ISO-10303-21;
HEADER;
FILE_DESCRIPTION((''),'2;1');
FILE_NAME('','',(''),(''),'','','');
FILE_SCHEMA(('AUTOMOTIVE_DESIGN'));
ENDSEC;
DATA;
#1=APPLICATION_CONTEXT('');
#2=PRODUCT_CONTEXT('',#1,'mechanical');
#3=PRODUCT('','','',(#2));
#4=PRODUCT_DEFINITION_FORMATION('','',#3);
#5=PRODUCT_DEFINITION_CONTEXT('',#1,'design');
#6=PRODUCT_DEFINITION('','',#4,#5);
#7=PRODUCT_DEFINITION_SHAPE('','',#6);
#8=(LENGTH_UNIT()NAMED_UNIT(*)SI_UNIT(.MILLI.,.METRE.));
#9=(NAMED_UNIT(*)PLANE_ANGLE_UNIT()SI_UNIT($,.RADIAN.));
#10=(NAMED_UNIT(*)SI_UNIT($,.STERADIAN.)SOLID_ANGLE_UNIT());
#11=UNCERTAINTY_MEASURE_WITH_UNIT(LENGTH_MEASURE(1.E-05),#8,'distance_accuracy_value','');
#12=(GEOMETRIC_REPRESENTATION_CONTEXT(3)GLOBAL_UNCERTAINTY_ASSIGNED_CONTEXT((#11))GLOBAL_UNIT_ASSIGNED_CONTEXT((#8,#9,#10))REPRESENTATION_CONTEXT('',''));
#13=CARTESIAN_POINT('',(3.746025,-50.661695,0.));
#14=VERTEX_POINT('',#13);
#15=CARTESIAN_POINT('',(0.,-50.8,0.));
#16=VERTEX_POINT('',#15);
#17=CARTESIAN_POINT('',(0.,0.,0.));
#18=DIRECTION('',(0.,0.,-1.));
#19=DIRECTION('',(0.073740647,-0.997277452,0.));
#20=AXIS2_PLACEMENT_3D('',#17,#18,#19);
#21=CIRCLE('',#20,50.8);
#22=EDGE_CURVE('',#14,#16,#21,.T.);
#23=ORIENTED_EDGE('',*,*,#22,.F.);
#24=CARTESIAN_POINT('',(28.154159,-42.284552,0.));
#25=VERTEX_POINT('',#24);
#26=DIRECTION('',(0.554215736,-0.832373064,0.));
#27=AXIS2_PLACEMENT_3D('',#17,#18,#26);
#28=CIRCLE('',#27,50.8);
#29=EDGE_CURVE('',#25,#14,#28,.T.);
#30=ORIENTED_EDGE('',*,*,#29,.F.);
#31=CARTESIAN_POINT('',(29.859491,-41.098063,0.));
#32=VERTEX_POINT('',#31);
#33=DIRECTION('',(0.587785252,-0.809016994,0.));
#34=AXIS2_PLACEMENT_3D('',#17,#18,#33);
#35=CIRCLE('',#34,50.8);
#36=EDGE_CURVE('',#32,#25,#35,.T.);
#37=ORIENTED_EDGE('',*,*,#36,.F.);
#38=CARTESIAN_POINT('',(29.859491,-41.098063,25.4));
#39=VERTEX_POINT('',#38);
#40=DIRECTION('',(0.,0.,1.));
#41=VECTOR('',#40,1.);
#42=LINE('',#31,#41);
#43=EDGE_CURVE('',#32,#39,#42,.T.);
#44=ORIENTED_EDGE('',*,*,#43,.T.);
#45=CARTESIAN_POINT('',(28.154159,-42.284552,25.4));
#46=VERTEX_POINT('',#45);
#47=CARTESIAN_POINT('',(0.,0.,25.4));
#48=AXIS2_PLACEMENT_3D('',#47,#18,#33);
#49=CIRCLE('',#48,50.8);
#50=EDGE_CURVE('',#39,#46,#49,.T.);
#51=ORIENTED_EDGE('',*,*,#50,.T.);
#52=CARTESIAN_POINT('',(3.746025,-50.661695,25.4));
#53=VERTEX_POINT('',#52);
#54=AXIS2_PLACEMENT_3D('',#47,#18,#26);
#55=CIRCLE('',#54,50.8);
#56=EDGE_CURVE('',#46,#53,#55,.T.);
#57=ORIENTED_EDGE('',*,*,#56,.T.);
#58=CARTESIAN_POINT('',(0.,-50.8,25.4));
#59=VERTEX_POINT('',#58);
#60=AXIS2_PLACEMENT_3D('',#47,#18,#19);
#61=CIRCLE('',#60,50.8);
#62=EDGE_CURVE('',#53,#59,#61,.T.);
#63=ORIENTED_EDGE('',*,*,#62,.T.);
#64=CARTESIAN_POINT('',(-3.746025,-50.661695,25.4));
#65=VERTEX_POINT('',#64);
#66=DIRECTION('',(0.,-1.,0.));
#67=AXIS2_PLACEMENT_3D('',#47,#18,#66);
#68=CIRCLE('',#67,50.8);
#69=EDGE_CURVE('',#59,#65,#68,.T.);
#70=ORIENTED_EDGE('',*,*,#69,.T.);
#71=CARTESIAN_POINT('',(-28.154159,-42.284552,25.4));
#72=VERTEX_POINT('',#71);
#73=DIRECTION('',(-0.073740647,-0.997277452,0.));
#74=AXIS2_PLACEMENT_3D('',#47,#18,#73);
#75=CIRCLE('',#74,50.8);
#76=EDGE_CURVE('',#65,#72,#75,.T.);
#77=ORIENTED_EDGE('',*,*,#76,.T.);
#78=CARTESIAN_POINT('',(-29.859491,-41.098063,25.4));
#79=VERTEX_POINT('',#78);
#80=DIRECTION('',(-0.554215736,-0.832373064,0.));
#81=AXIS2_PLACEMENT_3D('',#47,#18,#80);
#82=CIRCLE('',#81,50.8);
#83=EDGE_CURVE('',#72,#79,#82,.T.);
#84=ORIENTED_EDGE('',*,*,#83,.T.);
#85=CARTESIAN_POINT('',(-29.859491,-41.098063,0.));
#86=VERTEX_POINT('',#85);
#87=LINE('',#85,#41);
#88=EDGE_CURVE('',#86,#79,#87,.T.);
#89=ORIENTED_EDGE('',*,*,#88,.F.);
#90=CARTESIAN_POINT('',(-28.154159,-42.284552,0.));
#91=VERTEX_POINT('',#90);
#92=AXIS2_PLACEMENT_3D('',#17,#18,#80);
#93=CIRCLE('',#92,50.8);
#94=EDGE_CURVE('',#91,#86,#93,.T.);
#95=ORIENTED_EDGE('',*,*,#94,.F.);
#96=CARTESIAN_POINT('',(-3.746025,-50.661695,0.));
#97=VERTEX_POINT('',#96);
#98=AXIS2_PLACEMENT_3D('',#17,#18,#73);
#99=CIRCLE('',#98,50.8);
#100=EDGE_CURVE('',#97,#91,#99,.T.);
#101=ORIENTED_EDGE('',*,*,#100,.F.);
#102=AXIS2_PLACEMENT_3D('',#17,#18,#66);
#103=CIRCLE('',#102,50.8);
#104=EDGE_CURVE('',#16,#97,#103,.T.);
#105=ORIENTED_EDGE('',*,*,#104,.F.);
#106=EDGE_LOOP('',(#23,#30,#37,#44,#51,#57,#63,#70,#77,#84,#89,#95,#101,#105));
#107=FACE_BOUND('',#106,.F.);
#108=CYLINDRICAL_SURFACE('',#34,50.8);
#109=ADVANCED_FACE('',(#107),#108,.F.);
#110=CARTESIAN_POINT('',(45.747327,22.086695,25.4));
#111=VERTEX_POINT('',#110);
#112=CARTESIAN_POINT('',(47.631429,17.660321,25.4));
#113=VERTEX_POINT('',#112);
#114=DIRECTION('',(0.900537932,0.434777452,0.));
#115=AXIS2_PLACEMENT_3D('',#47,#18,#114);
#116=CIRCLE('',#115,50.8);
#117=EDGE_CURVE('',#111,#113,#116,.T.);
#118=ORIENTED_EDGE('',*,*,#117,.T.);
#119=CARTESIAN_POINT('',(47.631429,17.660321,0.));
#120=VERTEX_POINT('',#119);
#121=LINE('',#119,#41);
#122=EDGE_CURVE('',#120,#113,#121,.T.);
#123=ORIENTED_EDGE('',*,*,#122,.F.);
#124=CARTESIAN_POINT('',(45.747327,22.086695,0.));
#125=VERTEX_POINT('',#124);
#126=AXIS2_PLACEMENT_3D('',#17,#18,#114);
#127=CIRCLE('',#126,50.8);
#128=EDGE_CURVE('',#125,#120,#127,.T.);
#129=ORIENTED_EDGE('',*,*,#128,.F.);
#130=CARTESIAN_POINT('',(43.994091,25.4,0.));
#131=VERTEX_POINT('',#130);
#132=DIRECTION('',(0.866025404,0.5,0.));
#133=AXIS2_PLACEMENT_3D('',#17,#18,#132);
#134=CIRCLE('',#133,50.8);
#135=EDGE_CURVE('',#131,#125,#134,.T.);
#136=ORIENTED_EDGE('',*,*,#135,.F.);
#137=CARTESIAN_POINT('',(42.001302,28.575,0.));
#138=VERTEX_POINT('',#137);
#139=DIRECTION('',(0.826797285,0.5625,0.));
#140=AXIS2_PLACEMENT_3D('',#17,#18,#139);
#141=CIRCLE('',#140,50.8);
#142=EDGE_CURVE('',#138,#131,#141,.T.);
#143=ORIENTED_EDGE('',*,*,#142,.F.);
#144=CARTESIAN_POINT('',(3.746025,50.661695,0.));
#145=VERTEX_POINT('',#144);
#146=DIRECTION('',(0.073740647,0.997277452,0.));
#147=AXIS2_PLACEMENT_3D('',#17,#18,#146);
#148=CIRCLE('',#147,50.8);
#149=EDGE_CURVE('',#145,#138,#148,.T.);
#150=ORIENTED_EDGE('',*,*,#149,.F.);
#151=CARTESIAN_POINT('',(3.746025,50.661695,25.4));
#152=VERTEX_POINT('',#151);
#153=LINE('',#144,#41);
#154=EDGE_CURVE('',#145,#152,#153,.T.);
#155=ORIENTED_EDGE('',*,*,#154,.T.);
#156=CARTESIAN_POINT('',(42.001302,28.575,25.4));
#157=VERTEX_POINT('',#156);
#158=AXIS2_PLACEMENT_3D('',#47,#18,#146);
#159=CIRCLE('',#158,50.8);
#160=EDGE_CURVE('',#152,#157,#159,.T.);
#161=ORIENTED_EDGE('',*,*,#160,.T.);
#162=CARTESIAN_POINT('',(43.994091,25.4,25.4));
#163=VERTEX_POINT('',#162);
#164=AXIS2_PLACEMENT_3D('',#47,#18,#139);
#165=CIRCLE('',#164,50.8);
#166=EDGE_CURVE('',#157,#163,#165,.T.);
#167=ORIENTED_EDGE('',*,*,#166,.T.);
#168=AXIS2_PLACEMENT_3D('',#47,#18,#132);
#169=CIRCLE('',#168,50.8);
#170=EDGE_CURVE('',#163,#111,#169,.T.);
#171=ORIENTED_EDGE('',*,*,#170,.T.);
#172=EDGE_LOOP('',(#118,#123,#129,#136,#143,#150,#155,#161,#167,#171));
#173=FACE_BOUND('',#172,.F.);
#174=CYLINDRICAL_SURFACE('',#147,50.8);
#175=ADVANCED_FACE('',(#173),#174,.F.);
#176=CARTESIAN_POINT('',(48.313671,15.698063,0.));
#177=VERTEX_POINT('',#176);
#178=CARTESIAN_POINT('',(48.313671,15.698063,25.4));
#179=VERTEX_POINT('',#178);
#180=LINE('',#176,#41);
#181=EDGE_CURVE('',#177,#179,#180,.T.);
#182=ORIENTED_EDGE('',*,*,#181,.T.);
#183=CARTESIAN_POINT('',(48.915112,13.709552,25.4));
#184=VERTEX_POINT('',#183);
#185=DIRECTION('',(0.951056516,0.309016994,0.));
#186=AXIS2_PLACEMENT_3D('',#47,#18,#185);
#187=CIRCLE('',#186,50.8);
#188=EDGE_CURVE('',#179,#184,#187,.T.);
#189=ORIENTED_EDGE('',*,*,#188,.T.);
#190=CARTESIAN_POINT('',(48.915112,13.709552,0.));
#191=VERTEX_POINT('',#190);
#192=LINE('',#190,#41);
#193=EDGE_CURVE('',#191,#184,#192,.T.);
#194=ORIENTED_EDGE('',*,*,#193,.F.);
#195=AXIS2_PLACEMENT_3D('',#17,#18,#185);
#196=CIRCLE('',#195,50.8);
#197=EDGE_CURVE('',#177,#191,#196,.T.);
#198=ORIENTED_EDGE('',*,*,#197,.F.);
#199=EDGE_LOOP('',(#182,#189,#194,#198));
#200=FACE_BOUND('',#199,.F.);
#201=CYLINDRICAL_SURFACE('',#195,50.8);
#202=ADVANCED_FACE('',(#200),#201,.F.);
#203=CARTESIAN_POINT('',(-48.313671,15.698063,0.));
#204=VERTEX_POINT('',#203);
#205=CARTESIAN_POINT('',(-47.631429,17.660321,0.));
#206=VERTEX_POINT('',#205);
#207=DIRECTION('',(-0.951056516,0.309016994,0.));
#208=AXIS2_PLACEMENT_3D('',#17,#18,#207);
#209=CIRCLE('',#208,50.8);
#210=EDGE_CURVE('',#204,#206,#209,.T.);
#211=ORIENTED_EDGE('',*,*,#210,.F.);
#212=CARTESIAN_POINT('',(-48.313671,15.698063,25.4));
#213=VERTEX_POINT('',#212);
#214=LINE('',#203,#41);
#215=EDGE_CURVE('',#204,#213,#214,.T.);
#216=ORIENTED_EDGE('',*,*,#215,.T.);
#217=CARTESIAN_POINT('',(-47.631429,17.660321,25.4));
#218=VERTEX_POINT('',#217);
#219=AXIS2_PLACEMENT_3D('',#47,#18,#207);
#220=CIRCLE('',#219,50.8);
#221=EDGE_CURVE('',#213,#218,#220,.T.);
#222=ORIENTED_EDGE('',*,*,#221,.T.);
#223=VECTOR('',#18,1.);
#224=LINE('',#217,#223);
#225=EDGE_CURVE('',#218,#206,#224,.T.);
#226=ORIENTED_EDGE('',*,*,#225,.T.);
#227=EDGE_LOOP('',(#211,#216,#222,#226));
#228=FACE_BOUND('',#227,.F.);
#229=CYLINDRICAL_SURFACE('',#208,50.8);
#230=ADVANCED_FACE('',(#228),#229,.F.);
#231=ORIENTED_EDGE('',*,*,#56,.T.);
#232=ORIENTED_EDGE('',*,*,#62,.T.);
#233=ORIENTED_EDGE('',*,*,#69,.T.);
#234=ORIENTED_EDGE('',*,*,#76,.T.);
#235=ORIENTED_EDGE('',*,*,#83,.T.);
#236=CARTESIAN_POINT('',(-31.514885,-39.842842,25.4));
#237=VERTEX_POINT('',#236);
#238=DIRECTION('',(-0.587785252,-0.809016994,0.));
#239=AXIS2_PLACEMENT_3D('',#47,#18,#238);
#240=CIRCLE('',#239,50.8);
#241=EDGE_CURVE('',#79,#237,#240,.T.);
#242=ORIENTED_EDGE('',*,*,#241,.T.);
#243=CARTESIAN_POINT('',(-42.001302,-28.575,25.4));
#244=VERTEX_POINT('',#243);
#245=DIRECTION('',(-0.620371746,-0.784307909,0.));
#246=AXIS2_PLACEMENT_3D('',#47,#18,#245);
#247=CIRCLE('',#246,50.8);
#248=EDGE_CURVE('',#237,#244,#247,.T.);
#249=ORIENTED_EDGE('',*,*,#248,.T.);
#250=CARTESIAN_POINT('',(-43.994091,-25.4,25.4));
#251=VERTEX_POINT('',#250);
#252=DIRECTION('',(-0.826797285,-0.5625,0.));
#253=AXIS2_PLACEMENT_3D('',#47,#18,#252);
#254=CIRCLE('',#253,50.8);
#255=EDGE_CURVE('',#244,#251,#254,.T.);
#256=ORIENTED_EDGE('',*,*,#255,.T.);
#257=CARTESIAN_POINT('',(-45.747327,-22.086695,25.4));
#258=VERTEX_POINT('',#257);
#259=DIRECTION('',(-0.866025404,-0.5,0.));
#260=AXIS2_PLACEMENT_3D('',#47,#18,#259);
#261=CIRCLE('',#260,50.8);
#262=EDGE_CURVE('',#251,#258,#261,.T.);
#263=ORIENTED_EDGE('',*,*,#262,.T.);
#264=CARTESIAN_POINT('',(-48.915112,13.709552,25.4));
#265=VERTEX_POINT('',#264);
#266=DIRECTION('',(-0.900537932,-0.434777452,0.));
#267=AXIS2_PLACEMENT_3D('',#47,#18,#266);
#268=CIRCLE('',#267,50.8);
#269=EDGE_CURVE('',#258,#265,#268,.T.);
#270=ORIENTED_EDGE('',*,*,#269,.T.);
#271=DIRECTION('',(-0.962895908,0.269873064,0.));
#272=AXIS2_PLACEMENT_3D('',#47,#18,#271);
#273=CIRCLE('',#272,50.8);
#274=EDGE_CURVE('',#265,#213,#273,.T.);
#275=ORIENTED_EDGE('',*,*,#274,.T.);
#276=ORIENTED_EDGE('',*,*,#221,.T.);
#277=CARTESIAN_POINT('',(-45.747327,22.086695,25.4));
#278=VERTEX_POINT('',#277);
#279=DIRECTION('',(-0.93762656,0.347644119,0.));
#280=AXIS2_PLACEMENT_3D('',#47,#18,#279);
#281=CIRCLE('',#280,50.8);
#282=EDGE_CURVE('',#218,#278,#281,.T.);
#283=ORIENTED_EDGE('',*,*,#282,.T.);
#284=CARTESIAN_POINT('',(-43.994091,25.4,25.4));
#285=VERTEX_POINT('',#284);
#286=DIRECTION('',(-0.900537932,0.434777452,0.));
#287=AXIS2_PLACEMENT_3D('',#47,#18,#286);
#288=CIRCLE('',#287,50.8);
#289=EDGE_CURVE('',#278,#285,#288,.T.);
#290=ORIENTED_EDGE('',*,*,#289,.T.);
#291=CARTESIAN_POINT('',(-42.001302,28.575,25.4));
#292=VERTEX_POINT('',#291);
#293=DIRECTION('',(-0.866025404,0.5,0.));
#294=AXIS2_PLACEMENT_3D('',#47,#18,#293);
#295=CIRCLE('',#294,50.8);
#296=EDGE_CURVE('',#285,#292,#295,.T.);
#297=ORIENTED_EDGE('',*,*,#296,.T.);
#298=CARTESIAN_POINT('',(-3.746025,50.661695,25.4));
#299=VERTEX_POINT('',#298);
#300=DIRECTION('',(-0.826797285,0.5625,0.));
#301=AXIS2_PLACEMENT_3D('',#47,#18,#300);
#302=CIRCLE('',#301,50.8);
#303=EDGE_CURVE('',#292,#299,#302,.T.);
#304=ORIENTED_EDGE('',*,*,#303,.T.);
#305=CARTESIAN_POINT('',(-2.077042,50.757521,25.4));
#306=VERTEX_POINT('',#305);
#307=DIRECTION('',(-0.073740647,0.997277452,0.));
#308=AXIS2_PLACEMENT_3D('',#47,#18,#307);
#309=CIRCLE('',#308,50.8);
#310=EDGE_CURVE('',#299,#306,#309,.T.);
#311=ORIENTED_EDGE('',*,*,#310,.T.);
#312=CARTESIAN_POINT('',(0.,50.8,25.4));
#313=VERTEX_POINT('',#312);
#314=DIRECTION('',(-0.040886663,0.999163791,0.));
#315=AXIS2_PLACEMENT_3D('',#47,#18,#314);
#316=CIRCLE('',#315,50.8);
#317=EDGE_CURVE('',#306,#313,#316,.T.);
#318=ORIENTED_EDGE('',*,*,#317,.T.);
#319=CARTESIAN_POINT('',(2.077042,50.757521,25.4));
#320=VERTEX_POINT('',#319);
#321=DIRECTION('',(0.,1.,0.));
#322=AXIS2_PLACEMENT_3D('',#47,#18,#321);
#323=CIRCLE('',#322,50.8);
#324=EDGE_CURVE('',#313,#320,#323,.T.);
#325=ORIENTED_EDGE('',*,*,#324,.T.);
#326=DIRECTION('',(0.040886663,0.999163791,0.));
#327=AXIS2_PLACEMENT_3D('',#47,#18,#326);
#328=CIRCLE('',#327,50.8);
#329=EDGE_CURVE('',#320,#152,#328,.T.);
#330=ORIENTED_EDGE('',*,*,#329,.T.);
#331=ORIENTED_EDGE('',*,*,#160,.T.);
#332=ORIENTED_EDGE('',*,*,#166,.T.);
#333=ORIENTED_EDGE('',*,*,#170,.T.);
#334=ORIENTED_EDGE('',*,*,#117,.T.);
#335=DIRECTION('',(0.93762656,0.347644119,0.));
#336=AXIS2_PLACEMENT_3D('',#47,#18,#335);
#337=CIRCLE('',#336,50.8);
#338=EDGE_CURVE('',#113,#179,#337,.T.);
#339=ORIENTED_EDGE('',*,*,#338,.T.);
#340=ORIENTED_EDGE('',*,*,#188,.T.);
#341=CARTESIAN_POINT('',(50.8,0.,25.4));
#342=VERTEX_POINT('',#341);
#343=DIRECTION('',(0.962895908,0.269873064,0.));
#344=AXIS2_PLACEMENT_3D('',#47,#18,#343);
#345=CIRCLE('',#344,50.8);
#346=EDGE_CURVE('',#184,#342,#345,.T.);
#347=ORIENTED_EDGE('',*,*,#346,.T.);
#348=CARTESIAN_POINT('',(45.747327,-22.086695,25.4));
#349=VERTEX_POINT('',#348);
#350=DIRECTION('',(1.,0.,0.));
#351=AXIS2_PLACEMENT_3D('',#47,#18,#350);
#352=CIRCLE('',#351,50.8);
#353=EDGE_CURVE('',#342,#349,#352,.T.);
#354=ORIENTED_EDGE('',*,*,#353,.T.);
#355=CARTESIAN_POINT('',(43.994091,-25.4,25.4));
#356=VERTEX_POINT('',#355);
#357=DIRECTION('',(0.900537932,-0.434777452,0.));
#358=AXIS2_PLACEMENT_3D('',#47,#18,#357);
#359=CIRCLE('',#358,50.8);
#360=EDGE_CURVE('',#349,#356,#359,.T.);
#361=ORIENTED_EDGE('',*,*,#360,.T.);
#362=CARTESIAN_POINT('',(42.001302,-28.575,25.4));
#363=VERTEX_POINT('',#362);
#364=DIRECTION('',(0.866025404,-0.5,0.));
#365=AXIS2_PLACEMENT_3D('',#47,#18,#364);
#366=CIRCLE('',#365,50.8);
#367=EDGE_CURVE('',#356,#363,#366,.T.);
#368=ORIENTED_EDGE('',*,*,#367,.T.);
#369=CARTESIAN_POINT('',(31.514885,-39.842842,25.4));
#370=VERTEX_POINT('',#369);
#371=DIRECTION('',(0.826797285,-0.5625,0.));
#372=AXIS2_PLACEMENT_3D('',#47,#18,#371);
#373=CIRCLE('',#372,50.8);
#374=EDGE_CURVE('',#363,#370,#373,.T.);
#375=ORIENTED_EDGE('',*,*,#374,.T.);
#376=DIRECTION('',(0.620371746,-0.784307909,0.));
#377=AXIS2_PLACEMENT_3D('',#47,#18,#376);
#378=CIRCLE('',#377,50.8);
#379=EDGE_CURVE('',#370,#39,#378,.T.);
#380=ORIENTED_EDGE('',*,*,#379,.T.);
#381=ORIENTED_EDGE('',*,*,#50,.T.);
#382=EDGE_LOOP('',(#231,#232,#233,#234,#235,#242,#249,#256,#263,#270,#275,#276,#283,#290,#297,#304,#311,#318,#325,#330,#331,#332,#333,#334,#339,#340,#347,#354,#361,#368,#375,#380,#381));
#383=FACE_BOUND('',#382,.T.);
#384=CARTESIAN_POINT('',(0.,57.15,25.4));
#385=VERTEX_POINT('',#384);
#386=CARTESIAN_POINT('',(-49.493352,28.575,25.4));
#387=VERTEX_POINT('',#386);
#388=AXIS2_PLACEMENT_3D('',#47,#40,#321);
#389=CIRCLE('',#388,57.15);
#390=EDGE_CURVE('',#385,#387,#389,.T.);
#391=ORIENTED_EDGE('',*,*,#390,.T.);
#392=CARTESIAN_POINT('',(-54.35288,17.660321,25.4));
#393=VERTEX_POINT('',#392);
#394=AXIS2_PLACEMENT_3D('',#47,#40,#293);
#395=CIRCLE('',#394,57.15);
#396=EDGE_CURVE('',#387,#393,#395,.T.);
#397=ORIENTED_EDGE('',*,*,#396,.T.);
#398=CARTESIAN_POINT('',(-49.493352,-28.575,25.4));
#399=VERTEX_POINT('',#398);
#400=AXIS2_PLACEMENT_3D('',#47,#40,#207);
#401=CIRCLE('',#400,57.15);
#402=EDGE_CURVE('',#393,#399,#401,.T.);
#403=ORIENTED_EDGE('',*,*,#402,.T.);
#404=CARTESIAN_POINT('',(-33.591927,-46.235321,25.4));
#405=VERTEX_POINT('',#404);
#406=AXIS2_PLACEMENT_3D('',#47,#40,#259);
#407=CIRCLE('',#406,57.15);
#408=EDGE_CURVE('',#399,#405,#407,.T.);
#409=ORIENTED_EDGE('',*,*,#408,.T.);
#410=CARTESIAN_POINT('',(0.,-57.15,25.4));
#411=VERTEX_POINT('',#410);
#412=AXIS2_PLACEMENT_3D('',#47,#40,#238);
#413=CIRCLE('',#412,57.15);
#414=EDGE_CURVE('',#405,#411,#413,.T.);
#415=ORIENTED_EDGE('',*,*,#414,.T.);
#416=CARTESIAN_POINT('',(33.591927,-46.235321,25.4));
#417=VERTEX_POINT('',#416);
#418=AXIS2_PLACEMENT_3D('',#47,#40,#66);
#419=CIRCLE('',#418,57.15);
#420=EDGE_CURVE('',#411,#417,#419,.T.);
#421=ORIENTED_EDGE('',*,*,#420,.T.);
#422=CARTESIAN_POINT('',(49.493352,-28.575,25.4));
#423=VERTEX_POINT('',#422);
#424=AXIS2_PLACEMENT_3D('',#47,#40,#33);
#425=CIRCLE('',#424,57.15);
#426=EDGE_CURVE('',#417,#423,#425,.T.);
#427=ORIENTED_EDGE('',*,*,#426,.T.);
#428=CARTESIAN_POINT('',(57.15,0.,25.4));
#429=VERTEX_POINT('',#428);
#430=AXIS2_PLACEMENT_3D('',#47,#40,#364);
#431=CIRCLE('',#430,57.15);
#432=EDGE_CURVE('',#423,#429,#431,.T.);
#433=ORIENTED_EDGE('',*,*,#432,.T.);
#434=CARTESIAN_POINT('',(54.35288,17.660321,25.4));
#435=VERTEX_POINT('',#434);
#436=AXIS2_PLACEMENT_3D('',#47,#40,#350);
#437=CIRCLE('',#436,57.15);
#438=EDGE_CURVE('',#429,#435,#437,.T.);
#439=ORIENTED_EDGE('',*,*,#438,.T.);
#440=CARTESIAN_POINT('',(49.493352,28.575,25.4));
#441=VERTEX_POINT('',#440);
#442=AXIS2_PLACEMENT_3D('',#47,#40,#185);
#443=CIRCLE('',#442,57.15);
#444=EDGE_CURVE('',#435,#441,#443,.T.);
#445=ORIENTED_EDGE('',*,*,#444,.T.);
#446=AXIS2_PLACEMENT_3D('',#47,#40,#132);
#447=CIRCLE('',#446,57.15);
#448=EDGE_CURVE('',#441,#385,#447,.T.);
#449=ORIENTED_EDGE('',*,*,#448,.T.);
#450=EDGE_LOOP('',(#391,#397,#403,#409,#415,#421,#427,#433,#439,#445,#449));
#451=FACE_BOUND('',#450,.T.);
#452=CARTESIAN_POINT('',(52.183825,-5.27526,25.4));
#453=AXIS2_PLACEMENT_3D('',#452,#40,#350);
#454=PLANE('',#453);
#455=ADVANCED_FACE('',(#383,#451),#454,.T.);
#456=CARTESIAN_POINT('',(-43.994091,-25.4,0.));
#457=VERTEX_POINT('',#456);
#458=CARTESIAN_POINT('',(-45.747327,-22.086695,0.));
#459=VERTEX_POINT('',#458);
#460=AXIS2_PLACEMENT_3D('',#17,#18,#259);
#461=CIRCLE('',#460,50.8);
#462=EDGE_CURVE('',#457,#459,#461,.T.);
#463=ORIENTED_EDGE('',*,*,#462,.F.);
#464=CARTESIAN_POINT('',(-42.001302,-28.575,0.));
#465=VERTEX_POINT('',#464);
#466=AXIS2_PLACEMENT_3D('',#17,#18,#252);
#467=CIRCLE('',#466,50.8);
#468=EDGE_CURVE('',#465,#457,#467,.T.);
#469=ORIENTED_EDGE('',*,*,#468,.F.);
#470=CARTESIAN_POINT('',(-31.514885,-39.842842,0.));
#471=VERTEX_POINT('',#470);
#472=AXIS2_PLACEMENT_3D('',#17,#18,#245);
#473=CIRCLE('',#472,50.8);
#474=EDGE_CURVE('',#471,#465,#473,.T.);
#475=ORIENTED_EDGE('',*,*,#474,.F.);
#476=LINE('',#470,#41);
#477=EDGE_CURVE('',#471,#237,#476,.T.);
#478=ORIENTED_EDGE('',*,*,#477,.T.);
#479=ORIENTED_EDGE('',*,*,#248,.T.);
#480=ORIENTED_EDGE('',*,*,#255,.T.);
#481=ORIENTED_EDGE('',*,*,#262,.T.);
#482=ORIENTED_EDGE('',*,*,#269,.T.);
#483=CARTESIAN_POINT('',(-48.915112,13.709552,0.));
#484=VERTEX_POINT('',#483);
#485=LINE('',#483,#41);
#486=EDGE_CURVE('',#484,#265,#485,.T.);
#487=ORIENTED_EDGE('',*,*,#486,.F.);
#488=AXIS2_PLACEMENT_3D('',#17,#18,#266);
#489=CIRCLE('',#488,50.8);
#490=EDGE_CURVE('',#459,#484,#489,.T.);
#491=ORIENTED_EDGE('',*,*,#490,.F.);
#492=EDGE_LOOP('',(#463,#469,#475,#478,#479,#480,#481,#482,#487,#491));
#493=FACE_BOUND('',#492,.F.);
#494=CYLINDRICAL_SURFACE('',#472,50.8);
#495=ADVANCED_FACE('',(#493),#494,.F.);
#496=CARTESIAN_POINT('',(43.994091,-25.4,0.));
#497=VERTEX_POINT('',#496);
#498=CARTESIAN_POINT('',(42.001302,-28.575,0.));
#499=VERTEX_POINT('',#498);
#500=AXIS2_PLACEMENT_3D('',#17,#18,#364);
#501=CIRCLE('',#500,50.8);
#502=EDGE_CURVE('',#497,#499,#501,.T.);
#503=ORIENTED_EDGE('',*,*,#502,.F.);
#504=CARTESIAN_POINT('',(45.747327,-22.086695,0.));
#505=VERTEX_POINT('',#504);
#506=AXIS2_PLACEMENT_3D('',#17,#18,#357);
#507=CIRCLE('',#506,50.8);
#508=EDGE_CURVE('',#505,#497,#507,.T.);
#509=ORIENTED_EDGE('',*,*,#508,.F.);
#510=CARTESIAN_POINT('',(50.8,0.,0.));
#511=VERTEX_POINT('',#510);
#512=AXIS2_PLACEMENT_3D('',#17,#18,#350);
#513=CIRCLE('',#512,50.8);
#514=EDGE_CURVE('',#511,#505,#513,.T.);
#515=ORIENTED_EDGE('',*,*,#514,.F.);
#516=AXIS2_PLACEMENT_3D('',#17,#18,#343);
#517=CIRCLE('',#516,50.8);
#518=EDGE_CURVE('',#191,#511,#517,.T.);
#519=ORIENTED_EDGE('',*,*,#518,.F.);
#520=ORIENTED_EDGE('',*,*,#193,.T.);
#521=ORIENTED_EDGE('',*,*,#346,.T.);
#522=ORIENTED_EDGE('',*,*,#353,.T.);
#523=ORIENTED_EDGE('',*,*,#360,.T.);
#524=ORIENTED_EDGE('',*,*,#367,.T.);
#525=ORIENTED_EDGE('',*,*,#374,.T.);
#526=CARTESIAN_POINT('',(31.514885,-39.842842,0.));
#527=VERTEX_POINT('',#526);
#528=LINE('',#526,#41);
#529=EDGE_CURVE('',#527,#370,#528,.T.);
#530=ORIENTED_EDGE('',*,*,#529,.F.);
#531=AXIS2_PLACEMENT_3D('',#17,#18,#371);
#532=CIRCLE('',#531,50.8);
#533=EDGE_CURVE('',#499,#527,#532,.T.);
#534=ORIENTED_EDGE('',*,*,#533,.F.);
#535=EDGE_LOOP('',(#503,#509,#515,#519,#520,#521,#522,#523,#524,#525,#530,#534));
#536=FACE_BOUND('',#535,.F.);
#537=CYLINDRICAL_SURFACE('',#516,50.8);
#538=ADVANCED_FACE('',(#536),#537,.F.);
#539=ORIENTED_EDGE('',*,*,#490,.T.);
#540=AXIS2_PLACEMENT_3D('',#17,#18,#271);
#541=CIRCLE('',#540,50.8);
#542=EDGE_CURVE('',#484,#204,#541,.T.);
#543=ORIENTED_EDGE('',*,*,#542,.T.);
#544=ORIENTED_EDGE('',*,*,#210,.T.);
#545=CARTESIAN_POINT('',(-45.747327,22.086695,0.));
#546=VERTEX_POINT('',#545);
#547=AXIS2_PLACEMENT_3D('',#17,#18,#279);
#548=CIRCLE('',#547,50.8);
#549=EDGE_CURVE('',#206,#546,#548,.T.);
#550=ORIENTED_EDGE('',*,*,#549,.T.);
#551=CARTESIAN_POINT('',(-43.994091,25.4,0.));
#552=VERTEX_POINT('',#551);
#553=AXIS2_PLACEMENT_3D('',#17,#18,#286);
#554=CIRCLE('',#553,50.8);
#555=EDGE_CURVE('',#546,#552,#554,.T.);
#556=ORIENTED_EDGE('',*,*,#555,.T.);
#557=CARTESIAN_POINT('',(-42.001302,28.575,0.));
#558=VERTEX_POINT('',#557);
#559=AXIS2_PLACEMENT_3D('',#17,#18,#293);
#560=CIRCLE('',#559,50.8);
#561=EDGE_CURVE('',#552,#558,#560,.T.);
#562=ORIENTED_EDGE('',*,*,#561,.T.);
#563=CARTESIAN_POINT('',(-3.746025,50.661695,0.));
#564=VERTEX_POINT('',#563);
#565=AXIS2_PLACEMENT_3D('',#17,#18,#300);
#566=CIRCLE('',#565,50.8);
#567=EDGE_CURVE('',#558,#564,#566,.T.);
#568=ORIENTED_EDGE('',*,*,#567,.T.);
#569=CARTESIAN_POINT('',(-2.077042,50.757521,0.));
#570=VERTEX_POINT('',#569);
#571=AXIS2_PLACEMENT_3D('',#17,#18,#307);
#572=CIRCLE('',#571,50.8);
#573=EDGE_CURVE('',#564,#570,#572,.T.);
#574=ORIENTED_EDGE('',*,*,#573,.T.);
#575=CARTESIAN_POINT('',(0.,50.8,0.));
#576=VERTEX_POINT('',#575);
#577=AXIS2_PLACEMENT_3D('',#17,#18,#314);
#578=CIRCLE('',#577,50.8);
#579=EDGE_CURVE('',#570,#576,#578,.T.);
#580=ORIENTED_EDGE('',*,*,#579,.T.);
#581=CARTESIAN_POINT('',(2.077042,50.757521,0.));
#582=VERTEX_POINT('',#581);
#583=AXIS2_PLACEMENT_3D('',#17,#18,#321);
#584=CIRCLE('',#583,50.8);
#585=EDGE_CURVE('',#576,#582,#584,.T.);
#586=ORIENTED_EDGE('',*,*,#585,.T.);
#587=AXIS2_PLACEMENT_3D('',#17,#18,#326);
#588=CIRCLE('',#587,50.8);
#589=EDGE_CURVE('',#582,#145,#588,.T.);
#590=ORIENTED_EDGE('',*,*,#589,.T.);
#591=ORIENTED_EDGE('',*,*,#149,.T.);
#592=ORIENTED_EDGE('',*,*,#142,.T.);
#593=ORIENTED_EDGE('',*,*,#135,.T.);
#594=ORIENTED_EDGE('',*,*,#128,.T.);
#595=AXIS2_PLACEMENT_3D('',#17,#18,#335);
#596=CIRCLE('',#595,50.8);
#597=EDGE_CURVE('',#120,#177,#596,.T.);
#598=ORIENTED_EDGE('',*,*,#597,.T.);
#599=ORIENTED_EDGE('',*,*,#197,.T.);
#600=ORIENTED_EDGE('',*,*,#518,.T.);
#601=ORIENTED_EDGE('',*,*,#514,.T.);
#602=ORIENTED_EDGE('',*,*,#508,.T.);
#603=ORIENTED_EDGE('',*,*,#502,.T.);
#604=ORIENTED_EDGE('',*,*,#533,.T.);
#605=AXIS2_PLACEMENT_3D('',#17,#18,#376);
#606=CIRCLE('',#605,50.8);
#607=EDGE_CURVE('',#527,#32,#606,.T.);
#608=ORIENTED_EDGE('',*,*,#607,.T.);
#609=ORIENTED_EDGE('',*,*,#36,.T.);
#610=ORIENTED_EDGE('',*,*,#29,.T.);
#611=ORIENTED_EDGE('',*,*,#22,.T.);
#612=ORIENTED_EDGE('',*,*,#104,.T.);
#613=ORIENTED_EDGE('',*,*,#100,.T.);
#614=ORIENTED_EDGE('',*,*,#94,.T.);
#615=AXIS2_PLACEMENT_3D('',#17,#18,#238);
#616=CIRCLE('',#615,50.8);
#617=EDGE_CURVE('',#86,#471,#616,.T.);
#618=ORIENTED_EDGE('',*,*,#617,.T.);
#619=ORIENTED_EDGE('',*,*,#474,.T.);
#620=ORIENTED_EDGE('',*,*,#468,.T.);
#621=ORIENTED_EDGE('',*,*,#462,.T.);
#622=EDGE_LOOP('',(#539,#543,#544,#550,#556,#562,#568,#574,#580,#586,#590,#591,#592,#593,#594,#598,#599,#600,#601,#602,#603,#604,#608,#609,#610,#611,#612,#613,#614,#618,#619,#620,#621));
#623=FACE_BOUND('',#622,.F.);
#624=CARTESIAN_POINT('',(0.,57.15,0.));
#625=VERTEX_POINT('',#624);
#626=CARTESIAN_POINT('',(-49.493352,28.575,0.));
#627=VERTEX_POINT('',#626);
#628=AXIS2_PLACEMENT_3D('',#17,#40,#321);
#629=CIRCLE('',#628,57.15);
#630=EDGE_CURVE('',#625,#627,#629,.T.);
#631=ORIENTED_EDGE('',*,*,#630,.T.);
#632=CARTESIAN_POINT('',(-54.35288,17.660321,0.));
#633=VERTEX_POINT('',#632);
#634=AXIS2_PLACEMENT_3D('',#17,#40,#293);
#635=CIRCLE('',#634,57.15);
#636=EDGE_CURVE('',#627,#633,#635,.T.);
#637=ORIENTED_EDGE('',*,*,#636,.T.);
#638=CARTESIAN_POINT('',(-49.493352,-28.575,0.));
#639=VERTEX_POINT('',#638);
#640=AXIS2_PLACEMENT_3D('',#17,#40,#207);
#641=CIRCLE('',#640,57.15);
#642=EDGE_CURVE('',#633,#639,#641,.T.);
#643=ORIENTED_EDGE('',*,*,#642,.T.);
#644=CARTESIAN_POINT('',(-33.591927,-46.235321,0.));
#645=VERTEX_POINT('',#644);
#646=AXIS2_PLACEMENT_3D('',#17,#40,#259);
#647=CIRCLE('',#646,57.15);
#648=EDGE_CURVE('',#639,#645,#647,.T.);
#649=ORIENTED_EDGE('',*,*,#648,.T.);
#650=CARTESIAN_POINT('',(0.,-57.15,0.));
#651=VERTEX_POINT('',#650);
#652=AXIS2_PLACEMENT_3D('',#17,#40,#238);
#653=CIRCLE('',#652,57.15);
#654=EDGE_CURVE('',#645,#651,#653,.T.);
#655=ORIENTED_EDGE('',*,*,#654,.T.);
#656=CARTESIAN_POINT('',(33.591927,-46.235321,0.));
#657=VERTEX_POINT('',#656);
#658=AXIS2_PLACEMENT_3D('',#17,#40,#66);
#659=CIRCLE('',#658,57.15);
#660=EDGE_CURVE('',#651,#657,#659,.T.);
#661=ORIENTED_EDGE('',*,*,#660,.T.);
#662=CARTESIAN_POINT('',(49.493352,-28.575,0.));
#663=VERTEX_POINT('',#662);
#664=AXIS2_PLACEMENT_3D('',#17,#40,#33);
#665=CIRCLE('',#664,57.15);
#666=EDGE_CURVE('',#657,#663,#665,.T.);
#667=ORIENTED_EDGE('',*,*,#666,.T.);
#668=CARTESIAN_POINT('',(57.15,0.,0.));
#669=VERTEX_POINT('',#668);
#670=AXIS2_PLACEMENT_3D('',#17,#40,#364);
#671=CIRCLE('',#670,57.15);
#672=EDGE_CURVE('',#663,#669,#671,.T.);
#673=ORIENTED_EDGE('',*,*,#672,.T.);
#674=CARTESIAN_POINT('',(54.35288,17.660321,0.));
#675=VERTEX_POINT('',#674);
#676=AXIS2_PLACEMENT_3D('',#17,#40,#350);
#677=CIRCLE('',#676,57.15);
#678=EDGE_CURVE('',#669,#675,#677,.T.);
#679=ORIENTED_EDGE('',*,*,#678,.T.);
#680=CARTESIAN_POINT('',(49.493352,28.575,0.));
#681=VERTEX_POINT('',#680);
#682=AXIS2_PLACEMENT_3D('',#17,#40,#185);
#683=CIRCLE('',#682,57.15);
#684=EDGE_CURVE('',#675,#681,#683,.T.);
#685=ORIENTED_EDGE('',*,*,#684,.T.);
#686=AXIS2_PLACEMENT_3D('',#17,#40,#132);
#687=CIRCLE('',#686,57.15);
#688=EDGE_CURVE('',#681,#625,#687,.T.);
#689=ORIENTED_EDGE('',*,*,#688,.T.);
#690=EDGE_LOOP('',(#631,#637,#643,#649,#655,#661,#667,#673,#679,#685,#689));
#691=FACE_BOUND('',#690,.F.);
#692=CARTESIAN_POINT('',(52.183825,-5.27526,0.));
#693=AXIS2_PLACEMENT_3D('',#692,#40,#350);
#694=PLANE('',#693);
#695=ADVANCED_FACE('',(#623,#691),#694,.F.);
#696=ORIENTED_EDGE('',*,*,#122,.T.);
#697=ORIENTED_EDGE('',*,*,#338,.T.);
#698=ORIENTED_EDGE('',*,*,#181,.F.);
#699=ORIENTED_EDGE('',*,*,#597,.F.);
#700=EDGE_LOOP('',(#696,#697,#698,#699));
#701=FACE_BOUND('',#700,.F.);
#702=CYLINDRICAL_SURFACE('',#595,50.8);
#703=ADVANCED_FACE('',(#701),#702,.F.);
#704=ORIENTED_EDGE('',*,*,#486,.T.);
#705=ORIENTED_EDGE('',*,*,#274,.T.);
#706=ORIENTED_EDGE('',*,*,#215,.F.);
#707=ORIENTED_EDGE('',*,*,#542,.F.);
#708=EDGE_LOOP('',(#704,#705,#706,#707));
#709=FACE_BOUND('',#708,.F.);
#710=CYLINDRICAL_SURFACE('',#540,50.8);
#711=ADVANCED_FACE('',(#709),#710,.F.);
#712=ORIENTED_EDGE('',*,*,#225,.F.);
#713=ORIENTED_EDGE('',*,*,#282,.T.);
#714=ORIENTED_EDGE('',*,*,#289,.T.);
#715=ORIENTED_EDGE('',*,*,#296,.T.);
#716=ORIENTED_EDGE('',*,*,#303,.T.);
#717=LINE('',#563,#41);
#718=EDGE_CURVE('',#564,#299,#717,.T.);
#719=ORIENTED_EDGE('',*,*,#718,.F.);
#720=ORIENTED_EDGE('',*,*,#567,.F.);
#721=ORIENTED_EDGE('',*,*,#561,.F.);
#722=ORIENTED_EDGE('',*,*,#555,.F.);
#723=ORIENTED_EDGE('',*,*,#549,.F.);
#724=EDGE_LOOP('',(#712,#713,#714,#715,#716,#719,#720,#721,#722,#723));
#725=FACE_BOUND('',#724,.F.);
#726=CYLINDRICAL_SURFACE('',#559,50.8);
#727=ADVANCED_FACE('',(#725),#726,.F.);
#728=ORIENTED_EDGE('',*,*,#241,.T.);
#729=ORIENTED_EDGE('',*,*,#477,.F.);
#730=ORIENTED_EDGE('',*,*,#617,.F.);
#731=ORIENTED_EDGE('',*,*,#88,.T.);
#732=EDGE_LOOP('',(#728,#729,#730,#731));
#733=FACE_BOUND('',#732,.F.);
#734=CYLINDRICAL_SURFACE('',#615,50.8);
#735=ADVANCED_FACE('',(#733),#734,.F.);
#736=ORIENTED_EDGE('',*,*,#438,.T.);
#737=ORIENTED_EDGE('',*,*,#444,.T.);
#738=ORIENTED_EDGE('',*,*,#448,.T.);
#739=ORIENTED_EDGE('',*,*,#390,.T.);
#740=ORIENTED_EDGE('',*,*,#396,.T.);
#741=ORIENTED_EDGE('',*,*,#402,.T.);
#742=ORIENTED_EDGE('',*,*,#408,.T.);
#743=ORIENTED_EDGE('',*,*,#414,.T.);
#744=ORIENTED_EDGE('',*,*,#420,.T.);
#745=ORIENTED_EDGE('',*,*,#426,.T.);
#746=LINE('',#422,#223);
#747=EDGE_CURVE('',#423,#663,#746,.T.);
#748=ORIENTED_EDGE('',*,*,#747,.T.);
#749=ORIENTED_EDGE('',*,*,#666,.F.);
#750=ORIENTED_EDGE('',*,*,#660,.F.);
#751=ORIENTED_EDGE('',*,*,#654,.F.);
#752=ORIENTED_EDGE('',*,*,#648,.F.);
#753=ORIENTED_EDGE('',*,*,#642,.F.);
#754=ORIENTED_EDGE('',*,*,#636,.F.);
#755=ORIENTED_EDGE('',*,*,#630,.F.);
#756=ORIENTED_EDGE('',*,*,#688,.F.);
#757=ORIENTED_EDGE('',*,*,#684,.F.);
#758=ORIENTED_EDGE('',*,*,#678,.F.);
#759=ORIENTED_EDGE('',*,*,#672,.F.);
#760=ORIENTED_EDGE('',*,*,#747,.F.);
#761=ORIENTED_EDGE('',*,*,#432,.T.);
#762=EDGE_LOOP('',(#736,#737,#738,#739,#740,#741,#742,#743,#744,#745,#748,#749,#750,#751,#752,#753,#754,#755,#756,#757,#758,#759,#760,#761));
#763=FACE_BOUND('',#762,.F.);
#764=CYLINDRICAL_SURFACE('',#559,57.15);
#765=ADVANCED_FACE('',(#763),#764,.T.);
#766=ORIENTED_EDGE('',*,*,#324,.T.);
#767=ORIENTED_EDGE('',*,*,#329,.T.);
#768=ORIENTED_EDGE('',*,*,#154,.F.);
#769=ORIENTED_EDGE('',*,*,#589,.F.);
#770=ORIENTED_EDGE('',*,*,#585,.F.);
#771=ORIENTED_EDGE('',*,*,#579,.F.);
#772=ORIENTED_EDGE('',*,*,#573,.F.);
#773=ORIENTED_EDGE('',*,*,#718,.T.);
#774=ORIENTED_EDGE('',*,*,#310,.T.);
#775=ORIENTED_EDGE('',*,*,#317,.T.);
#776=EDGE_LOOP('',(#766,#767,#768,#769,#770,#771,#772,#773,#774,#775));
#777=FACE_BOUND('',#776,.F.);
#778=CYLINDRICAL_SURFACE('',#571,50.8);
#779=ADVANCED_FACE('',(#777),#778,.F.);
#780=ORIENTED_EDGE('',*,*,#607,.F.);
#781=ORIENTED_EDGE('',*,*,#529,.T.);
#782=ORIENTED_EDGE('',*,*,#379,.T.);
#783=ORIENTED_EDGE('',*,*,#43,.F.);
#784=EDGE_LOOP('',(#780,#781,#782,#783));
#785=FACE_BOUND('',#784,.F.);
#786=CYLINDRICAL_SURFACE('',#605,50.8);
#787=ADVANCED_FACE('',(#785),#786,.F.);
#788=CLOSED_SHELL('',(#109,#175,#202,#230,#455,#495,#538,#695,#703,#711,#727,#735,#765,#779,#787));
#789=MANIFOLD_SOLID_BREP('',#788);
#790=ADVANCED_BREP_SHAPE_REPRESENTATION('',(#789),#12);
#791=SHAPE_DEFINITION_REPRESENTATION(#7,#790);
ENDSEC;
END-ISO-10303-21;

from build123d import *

# Parameters (mm, degrees)
F1_DEPTH = 2.54
F2_DEPTH = 25.4


with BuildPart() as f1:
    # F0 (on Top) → F1 (new body)
    with BuildSketch(Plane.XY):
        with BuildLine():
            ThreePointArc((48.915112113, 13.7095516693), (50.3265719841, 6.9192595218), (50.8, 0))
            ThreePointArc((50.8, 0), (49.520723989, -11.328631674), (45.7473269447, -22.0866945787))
            Line((45.7473269447, -22.0866945787), (49.4933518263, -28.575))
            ThreePointArc((49.4933518263, -28.575), (55.2026609724, -14.7915084276), (57.15, 0))
            ThreePointArc((57.15, 0), (56.446388665, 8.940229677), (54.3528799063, 17.6603212285))
            Line((54.3528799063, 17.6603212285), (48.915112113, 13.7095516693))
        make_face()
        with BuildLine():
            ThreePointArc((48.3136710278, 15.6980633142), (48.624557709, 14.7068823209), (48.915112113, 13.7095516693))
            Line((48.915112113, 13.7095516693), (54.3528799063, 17.6603212285))
            Line((54.3528799063, 17.6603212285), (47.6314292679, 17.6603212285))
            ThreePointArc((47.6314292679, 17.6603212285), (47.982582066, 16.6826801888), (48.3136710278, 15.6980633142))
        make_face()
        with BuildLine():
            Line((49.4933518263, -28.575), (45.7473269447, -22.0866945787))
            ThreePointArc((45.7473269447, -22.0866945787), (44.9012806053, -23.759524406), (43.9940905122, -25.4))
            ThreePointArc((43.9940905122, -25.4), (43.0269920201, -27.0058874637), (42.0013020632, -28.575))
            Line((42.0013020631, -28.575), (49.4933518263, -28.575))
        make_face()
        with BuildLine():
            Line((47.6314292679, 17.6603212285), (54.3528799063, 17.6603212285))
            ThreePointArc((54.3528799063, 17.6603212285), (52.2091229043, 23.2449991518), (49.4933518263, 28.575))
            Line((49.4933518263, 28.575), (45.7473269447, 22.0866945787))
            ThreePointArc((45.7473269447, 22.0866945787), (46.7418038079, 19.895823099), (47.6314292679, 17.6603212285))
        make_face()
        with BuildLine():
            ThreePointArc((33.5919271685, -46.2353212285), (42.470726776, -38.2408141534), (49.4933518263, -28.575))
            Line((49.4933518263, -28.575), (42.0013020631, -28.575))
            ThreePointArc((42.0013020632, -28.575), (37.1873431903, -34.6084022522), (31.5148846944, -39.8428418))
            Line((31.5148846944, -39.8428418), (33.5919271685, -46.2353212285))
        make_face()
        with BuildLine():
            Line((42.0013020632, 28.575), (49.4933518263, 28.575))
            ThreePointArc((49.4933518263, 28.575), (28.575, 49.4933518263), (0, 57.15))
            Line((0, 57.15), (3.7460248816, 50.6616945787))
            ThreePointArc((3.7460248816, 50.6616945787), (25.4, 43.9940905122), (42.0013020632, 28.575))
        make_face()
        with BuildLine():
            Line((45.7473269447, 22.0866945787), (49.4933518263, 28.575))
            Line((49.4933518263, 28.575), (42.0013020632, 28.575))
            ThreePointArc((42.0013020632, 28.575), (43.0269920201, 27.0058874637), (43.9940905122, 25.4))
            ThreePointArc((43.9940905122, 25.4), (44.9012806053, 23.759524406), (45.7473269447, 22.0866945787))
        make_face()
        with BuildLine():
            Line((28.1541593752, -42.2845516693), (33.5919271685, -46.2353212285))
            Line((33.5919271685, -46.2353212285), (31.5148846944, -39.8428418))
            ThreePointArc((31.5148846944, -39.8428418), (30.6936049952, -40.4789156525), (29.8594908165, -41.0980633142))
            ThreePointArc((29.8594908165, -41.0980633142), (29.0128909417, -41.7000258897), (28.1541593752, -42.2845516693))
        make_face()
        with BuildLine():
            ThreePointArc((0, -57.15), (17.6603212285, -54.3528799063), (33.5919271685, -46.2353212285))
            Line((33.5919271685, -46.2353212285), (28.1541593752, -42.2845516693))
            ThreePointArc((28.1541593752, -42.2845516693), (16.4908935396, -48.0488338075), (3.7460248816, -50.6616945787))
            Line((3.7460248816, -50.6616945787), (0, -57.15))
        make_face()
        with BuildLine():
            Line((-3.7460248816, 50.6616945787), (0, 57.15))
            ThreePointArc((0, 57.15), (-28.575, 49.4933518263), (-49.4933518263, 28.575))
            Line((-49.4933518263, 28.575), (-42.0013020632, 28.575))
            ThreePointArc((-42.0013020632, 28.575), (-25.4, 43.9940905122), (-3.7460248816, 50.6616945787))
        make_face()
        with BuildLine():
            Line((2.0770424741, 50.7575205714), (0, 57.15))
            Line((0, 57.15), (-2.0770424741, 50.7575205714))
            ThreePointArc((-2.0770424741, 50.7575205714), (-1.0387384104, 50.7893790326), (0, 50.8))
            ThreePointArc((0, 50.8), (1.0387384104, 50.7893790326), (2.0770424741, 50.7575205714))
        make_face()
        with BuildLine():
            Line((3.7460248816, 50.6616945787), (0, 57.15))
            Line((0, 57.15), (2.0770424741, 50.7575205714))
            ThreePointArc((2.0770424741, 50.7575205714), (2.9119278858, 50.7164734183), (3.7460248816, 50.6616945787))
        make_face()
        with BuildLine():
            Line((-2.0770424741, 50.7575205714), (0, 57.15))
            Line((0, 57.15), (-3.7460248816, 50.6616945787))
            ThreePointArc((-3.7460248816, 50.6616945787), (-2.9119278858, 50.7164734183), (-2.0770424741, 50.7575205714))
        make_face()
        with BuildLine():
            ThreePointArc((-33.5919271685, -46.2353212285), (-17.6603212285, -54.3528799063), (0, -57.15))
            Line((0, -57.15), (-3.7460248816, -50.6616945787))
            ThreePointArc((-3.7460248816, -50.6616945787), (-16.4908935396, -48.0488338075), (-28.1541593752, -42.2845516693))
            Line((-28.1541593752, -42.2845516693), (-33.5919271685, -46.2353212285))
        make_face()
        with BuildLine():
            Line((-3.7460248816, -50.6616945787), (0, -57.15))
            Line((0, -57.15), (3.7460248816, -50.6616945787))
            ThreePointArc((3.7460248816, -50.6616945787), (1.8742885852, -50.7654118697), (0, -50.8))
            ThreePointArc((0, -50.8), (-1.8742885852, -50.7654118697), (-3.7460248816, -50.6616945787))
        make_face()
        with BuildLine():
            Line((-45.7473269447, 22.0866945787), (-49.4933518263, 28.575))
            ThreePointArc((-49.4933518263, 28.575), (-52.2091229043, 23.2449991518), (-54.3528799063, 17.6603212285))
            Line((-54.3528799063, 17.6603212285), (-47.6314292679, 17.6603212285))
            ThreePointArc((-47.6314292679, 17.6603212285), (-46.7418038079, 19.895823099), (-45.7473269447, 22.0866945787))
        make_face()
        with BuildLine():
            Line((-42.0013020632, 28.575), (-49.4933518263, 28.575))
            Line((-49.4933518263, 28.575), (-45.7473269447, 22.0866945787))
            ThreePointArc((-45.7473269447, 22.0866945787), (-44.9012806053, 23.759524406), (-43.9940905122, 25.4))
            ThreePointArc((-43.9940905122, 25.4), (-43.0269920201, 27.0058874637), (-42.0013020632, 28.575))
        make_face()
        with BuildLine():
            Line((-31.5148846944, -39.8428418), (-33.5919271685, -46.2353212285))
            Line((-33.5919271685, -46.2353212285), (-28.1541593752, -42.2845516693))
            ThreePointArc((-28.1541593752, -42.2845516693), (-29.0128909417, -41.7000258897), (-29.8594908165, -41.0980633142))
            ThreePointArc((-29.8594908165, -41.0980633142), (-30.6936049952, -40.4789156525), (-31.5148846944, -39.8428418))
        make_face()
        with BuildLine():
            ThreePointArc((-49.4933518263, -28.575), (-42.470726776, -38.2408141534), (-33.5919271685, -46.2353212285))
            Line((-33.5919271685, -46.2353212285), (-31.5148846944, -39.8428418))
            ThreePointArc((-31.5148846944, -39.8428418), (-37.1873431903, -34.6084022522), (-42.0013020632, -28.575))
            Line((-42.0013020631, -28.575), (-49.4933518263, -28.575))
        make_face()
        with BuildLine():
            Line((-48.915112113, 13.7095516693), (-54.3528799063, 17.6603212285))
            ThreePointArc((-54.3528799063, 17.6603212285), (-56.8369263203, -5.9738016757), (-49.4933518263, -28.575))
            Line((-49.4933518263, -28.575), (-45.7473269447, -22.0866945787))
            ThreePointArc((-45.7473269447, -22.0866945787), (-50.6022445495, -4.478040481), (-48.915112113, 13.7095516693))
        make_face()
        with BuildLine():
            Line((-47.6314292679, 17.6603212285), (-54.3528799063, 17.6603212285))
            Line((-54.3528799063, 17.6603212285), (-48.915112113, 13.7095516693))
            ThreePointArc((-48.915112113, 13.7095516693), (-48.624557709, 14.7068823209), (-48.3136710278, 15.6980633142))
            ThreePointArc((-48.3136710278, 15.6980633142), (-47.982582066, 16.6826801888), (-47.6314292679, 17.6603212285))
        make_face()
        with BuildLine():
            Line((-45.7473269447, -22.0866945787), (-49.4933518263, -28.575))
            Line((-49.4933518263, -28.575), (-42.0013020631, -28.575))
            ThreePointArc((-42.0013020632, -28.575), (-43.0269920201, -27.0058874637), (-43.9940905122, -25.4))
            ThreePointArc((-43.9940905122, -25.4), (-44.9012806053, -23.759524406), (-45.7473269447, -22.0866945787))
        make_face()
    extrude(amount=F1_DEPTH)

    # F0 (on Top) → F2 (join)
    with BuildSketch(Plane.XY):
        with BuildLine():
            ThreePointArc((48.915112113, 13.7095516693), (50.3265719841, 6.9192595218), (50.8, 0))
            ThreePointArc((50.8, 0), (49.520723989, -11.328631674), (45.7473269447, -22.0866945787))
            Line((45.7473269447, -22.0866945787), (49.4933518263, -28.575))
            ThreePointArc((49.4933518263, -28.575), (55.2026609724, -14.7915084276), (57.15, 0))
            ThreePointArc((57.15, 0), (56.446388665, 8.940229677), (54.3528799063, 17.6603212285))
            Line((54.3528799063, 17.6603212285), (48.915112113, 13.7095516693))
        make_face()
        with BuildLine():
            ThreePointArc((48.3136710278, 15.6980633142), (48.624557709, 14.7068823209), (48.915112113, 13.7095516693))
            Line((48.915112113, 13.7095516693), (54.3528799063, 17.6603212285))
            Line((54.3528799063, 17.6603212285), (47.6314292679, 17.6603212285))
            ThreePointArc((47.6314292679, 17.6603212285), (47.982582066, 16.6826801888), (48.3136710278, 15.6980633142))
        make_face()
        with BuildLine():
            Line((49.4933518263, -28.575), (45.7473269447, -22.0866945787))
            ThreePointArc((45.7473269447, -22.0866945787), (44.9012806053, -23.759524406), (43.9940905122, -25.4))
            ThreePointArc((43.9940905122, -25.4), (43.0269920201, -27.0058874637), (42.0013020632, -28.575))
            Line((42.0013020631, -28.575), (49.4933518263, -28.575))
        make_face()
        with BuildLine():
            Line((47.6314292679, 17.6603212285), (54.3528799063, 17.6603212285))
            ThreePointArc((54.3528799063, 17.6603212285), (52.2091229043, 23.2449991518), (49.4933518263, 28.575))
            Line((49.4933518263, 28.575), (45.7473269447, 22.0866945787))
            ThreePointArc((45.7473269447, 22.0866945787), (46.7418038079, 19.895823099), (47.6314292679, 17.6603212285))
        make_face()
        with BuildLine():
            ThreePointArc((33.5919271685, -46.2353212285), (42.470726776, -38.2408141534), (49.4933518263, -28.575))
            Line((49.4933518263, -28.575), (42.0013020631, -28.575))
            ThreePointArc((42.0013020632, -28.575), (37.1873431903, -34.6084022522), (31.5148846944, -39.8428418))
            Line((31.5148846944, -39.8428418), (33.5919271685, -46.2353212285))
        make_face()
        with BuildLine():
            Line((42.0013020632, 28.575), (49.4933518263, 28.575))
            ThreePointArc((49.4933518263, 28.575), (28.575, 49.4933518263), (0, 57.15))
            Line((0, 57.15), (3.7460248816, 50.6616945787))
            ThreePointArc((3.7460248816, 50.6616945787), (25.4, 43.9940905122), (42.0013020632, 28.575))
        make_face()
        with BuildLine():
            Line((45.7473269447, 22.0866945787), (49.4933518263, 28.575))
            Line((49.4933518263, 28.575), (42.0013020632, 28.575))
            ThreePointArc((42.0013020632, 28.575), (43.0269920201, 27.0058874637), (43.9940905122, 25.4))
            ThreePointArc((43.9940905122, 25.4), (44.9012806053, 23.759524406), (45.7473269447, 22.0866945787))
        make_face()
        with BuildLine():
            Line((28.1541593752, -42.2845516693), (33.5919271685, -46.2353212285))
            Line((33.5919271685, -46.2353212285), (31.5148846944, -39.8428418))
            ThreePointArc((31.5148846944, -39.8428418), (30.6936049952, -40.4789156525), (29.8594908165, -41.0980633142))
            ThreePointArc((29.8594908165, -41.0980633142), (29.0128909417, -41.7000258897), (28.1541593752, -42.2845516693))
        make_face()
        with BuildLine():
            ThreePointArc((0, -57.15), (17.6603212285, -54.3528799063), (33.5919271685, -46.2353212285))
            Line((33.5919271685, -46.2353212285), (28.1541593752, -42.2845516693))
            ThreePointArc((28.1541593752, -42.2845516693), (16.4908935396, -48.0488338075), (3.7460248816, -50.6616945787))
            Line((3.7460248816, -50.6616945787), (0, -57.15))
        make_face()
        with BuildLine():
            Line((-3.7460248816, 50.6616945787), (0, 57.15))
            ThreePointArc((0, 57.15), (-28.575, 49.4933518263), (-49.4933518263, 28.575))
            Line((-49.4933518263, 28.575), (-42.0013020632, 28.575))
            ThreePointArc((-42.0013020632, 28.575), (-25.4, 43.9940905122), (-3.7460248816, 50.6616945787))
        make_face()
        with BuildLine():
            Line((2.0770424741, 50.7575205714), (0, 57.15))
            Line((0, 57.15), (-2.0770424741, 50.7575205714))
            ThreePointArc((-2.0770424741, 50.7575205714), (-1.0387384104, 50.7893790326), (0, 50.8))
            ThreePointArc((0, 50.8), (1.0387384104, 50.7893790326), (2.0770424741, 50.7575205714))
        make_face()
        with BuildLine():
            Line((3.7460248816, 50.6616945787), (0, 57.15))
            Line((0, 57.15), (2.0770424741, 50.7575205714))
            ThreePointArc((2.0770424741, 50.7575205714), (2.9119278858, 50.7164734183), (3.7460248816, 50.6616945787))
        make_face()
        with BuildLine():
            Line((-2.0770424741, 50.7575205714), (0, 57.15))
            Line((0, 57.15), (-3.7460248816, 50.6616945787))
            ThreePointArc((-3.7460248816, 50.6616945787), (-2.9119278858, 50.7164734183), (-2.0770424741, 50.7575205714))
        make_face()
        with BuildLine():
            ThreePointArc((-33.5919271685, -46.2353212285), (-17.6603212285, -54.3528799063), (0, -57.15))
            Line((0, -57.15), (-3.7460248816, -50.6616945787))
            ThreePointArc((-3.7460248816, -50.6616945787), (-16.4908935396, -48.0488338075), (-28.1541593752, -42.2845516693))
            Line((-28.1541593752, -42.2845516693), (-33.5919271685, -46.2353212285))
        make_face()
        with BuildLine():
            Line((-3.7460248816, -50.6616945787), (0, -57.15))
            Line((0, -57.15), (3.7460248816, -50.6616945787))
            ThreePointArc((3.7460248816, -50.6616945787), (1.8742885852, -50.7654118697), (0, -50.8))
            ThreePointArc((0, -50.8), (-1.8742885852, -50.7654118697), (-3.7460248816, -50.6616945787))
        make_face()
        with BuildLine():
            Line((-45.7473269447, 22.0866945787), (-49.4933518263, 28.575))
            ThreePointArc((-49.4933518263, 28.575), (-52.2091229043, 23.2449991518), (-54.3528799063, 17.6603212285))
            Line((-54.3528799063, 17.6603212285), (-47.6314292679, 17.6603212285))
            ThreePointArc((-47.6314292679, 17.6603212285), (-46.7418038079, 19.895823099), (-45.7473269447, 22.0866945787))
        make_face()
        with BuildLine():
            Line((-42.0013020632, 28.575), (-49.4933518263, 28.575))
            Line((-49.4933518263, 28.575), (-45.7473269447, 22.0866945787))
            ThreePointArc((-45.7473269447, 22.0866945787), (-44.9012806053, 23.759524406), (-43.9940905122, 25.4))
            ThreePointArc((-43.9940905122, 25.4), (-43.0269920201, 27.0058874637), (-42.0013020632, 28.575))
        make_face()
        with BuildLine():
            Line((-31.5148846944, -39.8428418), (-33.5919271685, -46.2353212285))
            Line((-33.5919271685, -46.2353212285), (-28.1541593752, -42.2845516693))
            ThreePointArc((-28.1541593752, -42.2845516693), (-29.0128909417, -41.7000258897), (-29.8594908165, -41.0980633142))
            ThreePointArc((-29.8594908165, -41.0980633142), (-30.6936049952, -40.4789156525), (-31.5148846944, -39.8428418))
        make_face()
        with BuildLine():
            ThreePointArc((-49.4933518263, -28.575), (-42.470726776, -38.2408141534), (-33.5919271685, -46.2353212285))
            Line((-33.5919271685, -46.2353212285), (-31.5148846944, -39.8428418))
            ThreePointArc((-31.5148846944, -39.8428418), (-37.1873431903, -34.6084022522), (-42.0013020632, -28.575))
            Line((-42.0013020631, -28.575), (-49.4933518263, -28.575))
        make_face()
        with BuildLine():
            Line((-48.915112113, 13.7095516693), (-54.3528799063, 17.6603212285))
            ThreePointArc((-54.3528799063, 17.6603212285), (-56.8369263203, -5.9738016757), (-49.4933518263, -28.575))
            Line((-49.4933518263, -28.575), (-45.7473269447, -22.0866945787))
            ThreePointArc((-45.7473269447, -22.0866945787), (-50.6022445495, -4.478040481), (-48.915112113, 13.7095516693))
        make_face()
        with BuildLine():
            Line((-47.6314292679, 17.6603212285), (-54.3528799063, 17.6603212285))
            Line((-54.3528799063, 17.6603212285), (-48.915112113, 13.7095516693))
            ThreePointArc((-48.915112113, 13.7095516693), (-48.624557709, 14.7068823209), (-48.3136710278, 15.6980633142))
            ThreePointArc((-48.3136710278, 15.6980633142), (-47.982582066, 16.6826801888), (-47.6314292679, 17.6603212285))
        make_face()
        with BuildLine():
            Line((-45.7473269447, -22.0866945787), (-49.4933518263, -28.575))
            Line((-49.4933518263, -28.575), (-42.0013020631, -28.575))
            ThreePointArc((-42.0013020632, -28.575), (-43.0269920201, -27.0058874637), (-43.9940905122, -25.4))
            ThreePointArc((-43.9940905122, -25.4), (-44.9012806053, -23.759524406), (-45.7473269447, -22.0866945787))
        make_face()
    extrude(amount=F2_DEPTH)


solid = f1.part
